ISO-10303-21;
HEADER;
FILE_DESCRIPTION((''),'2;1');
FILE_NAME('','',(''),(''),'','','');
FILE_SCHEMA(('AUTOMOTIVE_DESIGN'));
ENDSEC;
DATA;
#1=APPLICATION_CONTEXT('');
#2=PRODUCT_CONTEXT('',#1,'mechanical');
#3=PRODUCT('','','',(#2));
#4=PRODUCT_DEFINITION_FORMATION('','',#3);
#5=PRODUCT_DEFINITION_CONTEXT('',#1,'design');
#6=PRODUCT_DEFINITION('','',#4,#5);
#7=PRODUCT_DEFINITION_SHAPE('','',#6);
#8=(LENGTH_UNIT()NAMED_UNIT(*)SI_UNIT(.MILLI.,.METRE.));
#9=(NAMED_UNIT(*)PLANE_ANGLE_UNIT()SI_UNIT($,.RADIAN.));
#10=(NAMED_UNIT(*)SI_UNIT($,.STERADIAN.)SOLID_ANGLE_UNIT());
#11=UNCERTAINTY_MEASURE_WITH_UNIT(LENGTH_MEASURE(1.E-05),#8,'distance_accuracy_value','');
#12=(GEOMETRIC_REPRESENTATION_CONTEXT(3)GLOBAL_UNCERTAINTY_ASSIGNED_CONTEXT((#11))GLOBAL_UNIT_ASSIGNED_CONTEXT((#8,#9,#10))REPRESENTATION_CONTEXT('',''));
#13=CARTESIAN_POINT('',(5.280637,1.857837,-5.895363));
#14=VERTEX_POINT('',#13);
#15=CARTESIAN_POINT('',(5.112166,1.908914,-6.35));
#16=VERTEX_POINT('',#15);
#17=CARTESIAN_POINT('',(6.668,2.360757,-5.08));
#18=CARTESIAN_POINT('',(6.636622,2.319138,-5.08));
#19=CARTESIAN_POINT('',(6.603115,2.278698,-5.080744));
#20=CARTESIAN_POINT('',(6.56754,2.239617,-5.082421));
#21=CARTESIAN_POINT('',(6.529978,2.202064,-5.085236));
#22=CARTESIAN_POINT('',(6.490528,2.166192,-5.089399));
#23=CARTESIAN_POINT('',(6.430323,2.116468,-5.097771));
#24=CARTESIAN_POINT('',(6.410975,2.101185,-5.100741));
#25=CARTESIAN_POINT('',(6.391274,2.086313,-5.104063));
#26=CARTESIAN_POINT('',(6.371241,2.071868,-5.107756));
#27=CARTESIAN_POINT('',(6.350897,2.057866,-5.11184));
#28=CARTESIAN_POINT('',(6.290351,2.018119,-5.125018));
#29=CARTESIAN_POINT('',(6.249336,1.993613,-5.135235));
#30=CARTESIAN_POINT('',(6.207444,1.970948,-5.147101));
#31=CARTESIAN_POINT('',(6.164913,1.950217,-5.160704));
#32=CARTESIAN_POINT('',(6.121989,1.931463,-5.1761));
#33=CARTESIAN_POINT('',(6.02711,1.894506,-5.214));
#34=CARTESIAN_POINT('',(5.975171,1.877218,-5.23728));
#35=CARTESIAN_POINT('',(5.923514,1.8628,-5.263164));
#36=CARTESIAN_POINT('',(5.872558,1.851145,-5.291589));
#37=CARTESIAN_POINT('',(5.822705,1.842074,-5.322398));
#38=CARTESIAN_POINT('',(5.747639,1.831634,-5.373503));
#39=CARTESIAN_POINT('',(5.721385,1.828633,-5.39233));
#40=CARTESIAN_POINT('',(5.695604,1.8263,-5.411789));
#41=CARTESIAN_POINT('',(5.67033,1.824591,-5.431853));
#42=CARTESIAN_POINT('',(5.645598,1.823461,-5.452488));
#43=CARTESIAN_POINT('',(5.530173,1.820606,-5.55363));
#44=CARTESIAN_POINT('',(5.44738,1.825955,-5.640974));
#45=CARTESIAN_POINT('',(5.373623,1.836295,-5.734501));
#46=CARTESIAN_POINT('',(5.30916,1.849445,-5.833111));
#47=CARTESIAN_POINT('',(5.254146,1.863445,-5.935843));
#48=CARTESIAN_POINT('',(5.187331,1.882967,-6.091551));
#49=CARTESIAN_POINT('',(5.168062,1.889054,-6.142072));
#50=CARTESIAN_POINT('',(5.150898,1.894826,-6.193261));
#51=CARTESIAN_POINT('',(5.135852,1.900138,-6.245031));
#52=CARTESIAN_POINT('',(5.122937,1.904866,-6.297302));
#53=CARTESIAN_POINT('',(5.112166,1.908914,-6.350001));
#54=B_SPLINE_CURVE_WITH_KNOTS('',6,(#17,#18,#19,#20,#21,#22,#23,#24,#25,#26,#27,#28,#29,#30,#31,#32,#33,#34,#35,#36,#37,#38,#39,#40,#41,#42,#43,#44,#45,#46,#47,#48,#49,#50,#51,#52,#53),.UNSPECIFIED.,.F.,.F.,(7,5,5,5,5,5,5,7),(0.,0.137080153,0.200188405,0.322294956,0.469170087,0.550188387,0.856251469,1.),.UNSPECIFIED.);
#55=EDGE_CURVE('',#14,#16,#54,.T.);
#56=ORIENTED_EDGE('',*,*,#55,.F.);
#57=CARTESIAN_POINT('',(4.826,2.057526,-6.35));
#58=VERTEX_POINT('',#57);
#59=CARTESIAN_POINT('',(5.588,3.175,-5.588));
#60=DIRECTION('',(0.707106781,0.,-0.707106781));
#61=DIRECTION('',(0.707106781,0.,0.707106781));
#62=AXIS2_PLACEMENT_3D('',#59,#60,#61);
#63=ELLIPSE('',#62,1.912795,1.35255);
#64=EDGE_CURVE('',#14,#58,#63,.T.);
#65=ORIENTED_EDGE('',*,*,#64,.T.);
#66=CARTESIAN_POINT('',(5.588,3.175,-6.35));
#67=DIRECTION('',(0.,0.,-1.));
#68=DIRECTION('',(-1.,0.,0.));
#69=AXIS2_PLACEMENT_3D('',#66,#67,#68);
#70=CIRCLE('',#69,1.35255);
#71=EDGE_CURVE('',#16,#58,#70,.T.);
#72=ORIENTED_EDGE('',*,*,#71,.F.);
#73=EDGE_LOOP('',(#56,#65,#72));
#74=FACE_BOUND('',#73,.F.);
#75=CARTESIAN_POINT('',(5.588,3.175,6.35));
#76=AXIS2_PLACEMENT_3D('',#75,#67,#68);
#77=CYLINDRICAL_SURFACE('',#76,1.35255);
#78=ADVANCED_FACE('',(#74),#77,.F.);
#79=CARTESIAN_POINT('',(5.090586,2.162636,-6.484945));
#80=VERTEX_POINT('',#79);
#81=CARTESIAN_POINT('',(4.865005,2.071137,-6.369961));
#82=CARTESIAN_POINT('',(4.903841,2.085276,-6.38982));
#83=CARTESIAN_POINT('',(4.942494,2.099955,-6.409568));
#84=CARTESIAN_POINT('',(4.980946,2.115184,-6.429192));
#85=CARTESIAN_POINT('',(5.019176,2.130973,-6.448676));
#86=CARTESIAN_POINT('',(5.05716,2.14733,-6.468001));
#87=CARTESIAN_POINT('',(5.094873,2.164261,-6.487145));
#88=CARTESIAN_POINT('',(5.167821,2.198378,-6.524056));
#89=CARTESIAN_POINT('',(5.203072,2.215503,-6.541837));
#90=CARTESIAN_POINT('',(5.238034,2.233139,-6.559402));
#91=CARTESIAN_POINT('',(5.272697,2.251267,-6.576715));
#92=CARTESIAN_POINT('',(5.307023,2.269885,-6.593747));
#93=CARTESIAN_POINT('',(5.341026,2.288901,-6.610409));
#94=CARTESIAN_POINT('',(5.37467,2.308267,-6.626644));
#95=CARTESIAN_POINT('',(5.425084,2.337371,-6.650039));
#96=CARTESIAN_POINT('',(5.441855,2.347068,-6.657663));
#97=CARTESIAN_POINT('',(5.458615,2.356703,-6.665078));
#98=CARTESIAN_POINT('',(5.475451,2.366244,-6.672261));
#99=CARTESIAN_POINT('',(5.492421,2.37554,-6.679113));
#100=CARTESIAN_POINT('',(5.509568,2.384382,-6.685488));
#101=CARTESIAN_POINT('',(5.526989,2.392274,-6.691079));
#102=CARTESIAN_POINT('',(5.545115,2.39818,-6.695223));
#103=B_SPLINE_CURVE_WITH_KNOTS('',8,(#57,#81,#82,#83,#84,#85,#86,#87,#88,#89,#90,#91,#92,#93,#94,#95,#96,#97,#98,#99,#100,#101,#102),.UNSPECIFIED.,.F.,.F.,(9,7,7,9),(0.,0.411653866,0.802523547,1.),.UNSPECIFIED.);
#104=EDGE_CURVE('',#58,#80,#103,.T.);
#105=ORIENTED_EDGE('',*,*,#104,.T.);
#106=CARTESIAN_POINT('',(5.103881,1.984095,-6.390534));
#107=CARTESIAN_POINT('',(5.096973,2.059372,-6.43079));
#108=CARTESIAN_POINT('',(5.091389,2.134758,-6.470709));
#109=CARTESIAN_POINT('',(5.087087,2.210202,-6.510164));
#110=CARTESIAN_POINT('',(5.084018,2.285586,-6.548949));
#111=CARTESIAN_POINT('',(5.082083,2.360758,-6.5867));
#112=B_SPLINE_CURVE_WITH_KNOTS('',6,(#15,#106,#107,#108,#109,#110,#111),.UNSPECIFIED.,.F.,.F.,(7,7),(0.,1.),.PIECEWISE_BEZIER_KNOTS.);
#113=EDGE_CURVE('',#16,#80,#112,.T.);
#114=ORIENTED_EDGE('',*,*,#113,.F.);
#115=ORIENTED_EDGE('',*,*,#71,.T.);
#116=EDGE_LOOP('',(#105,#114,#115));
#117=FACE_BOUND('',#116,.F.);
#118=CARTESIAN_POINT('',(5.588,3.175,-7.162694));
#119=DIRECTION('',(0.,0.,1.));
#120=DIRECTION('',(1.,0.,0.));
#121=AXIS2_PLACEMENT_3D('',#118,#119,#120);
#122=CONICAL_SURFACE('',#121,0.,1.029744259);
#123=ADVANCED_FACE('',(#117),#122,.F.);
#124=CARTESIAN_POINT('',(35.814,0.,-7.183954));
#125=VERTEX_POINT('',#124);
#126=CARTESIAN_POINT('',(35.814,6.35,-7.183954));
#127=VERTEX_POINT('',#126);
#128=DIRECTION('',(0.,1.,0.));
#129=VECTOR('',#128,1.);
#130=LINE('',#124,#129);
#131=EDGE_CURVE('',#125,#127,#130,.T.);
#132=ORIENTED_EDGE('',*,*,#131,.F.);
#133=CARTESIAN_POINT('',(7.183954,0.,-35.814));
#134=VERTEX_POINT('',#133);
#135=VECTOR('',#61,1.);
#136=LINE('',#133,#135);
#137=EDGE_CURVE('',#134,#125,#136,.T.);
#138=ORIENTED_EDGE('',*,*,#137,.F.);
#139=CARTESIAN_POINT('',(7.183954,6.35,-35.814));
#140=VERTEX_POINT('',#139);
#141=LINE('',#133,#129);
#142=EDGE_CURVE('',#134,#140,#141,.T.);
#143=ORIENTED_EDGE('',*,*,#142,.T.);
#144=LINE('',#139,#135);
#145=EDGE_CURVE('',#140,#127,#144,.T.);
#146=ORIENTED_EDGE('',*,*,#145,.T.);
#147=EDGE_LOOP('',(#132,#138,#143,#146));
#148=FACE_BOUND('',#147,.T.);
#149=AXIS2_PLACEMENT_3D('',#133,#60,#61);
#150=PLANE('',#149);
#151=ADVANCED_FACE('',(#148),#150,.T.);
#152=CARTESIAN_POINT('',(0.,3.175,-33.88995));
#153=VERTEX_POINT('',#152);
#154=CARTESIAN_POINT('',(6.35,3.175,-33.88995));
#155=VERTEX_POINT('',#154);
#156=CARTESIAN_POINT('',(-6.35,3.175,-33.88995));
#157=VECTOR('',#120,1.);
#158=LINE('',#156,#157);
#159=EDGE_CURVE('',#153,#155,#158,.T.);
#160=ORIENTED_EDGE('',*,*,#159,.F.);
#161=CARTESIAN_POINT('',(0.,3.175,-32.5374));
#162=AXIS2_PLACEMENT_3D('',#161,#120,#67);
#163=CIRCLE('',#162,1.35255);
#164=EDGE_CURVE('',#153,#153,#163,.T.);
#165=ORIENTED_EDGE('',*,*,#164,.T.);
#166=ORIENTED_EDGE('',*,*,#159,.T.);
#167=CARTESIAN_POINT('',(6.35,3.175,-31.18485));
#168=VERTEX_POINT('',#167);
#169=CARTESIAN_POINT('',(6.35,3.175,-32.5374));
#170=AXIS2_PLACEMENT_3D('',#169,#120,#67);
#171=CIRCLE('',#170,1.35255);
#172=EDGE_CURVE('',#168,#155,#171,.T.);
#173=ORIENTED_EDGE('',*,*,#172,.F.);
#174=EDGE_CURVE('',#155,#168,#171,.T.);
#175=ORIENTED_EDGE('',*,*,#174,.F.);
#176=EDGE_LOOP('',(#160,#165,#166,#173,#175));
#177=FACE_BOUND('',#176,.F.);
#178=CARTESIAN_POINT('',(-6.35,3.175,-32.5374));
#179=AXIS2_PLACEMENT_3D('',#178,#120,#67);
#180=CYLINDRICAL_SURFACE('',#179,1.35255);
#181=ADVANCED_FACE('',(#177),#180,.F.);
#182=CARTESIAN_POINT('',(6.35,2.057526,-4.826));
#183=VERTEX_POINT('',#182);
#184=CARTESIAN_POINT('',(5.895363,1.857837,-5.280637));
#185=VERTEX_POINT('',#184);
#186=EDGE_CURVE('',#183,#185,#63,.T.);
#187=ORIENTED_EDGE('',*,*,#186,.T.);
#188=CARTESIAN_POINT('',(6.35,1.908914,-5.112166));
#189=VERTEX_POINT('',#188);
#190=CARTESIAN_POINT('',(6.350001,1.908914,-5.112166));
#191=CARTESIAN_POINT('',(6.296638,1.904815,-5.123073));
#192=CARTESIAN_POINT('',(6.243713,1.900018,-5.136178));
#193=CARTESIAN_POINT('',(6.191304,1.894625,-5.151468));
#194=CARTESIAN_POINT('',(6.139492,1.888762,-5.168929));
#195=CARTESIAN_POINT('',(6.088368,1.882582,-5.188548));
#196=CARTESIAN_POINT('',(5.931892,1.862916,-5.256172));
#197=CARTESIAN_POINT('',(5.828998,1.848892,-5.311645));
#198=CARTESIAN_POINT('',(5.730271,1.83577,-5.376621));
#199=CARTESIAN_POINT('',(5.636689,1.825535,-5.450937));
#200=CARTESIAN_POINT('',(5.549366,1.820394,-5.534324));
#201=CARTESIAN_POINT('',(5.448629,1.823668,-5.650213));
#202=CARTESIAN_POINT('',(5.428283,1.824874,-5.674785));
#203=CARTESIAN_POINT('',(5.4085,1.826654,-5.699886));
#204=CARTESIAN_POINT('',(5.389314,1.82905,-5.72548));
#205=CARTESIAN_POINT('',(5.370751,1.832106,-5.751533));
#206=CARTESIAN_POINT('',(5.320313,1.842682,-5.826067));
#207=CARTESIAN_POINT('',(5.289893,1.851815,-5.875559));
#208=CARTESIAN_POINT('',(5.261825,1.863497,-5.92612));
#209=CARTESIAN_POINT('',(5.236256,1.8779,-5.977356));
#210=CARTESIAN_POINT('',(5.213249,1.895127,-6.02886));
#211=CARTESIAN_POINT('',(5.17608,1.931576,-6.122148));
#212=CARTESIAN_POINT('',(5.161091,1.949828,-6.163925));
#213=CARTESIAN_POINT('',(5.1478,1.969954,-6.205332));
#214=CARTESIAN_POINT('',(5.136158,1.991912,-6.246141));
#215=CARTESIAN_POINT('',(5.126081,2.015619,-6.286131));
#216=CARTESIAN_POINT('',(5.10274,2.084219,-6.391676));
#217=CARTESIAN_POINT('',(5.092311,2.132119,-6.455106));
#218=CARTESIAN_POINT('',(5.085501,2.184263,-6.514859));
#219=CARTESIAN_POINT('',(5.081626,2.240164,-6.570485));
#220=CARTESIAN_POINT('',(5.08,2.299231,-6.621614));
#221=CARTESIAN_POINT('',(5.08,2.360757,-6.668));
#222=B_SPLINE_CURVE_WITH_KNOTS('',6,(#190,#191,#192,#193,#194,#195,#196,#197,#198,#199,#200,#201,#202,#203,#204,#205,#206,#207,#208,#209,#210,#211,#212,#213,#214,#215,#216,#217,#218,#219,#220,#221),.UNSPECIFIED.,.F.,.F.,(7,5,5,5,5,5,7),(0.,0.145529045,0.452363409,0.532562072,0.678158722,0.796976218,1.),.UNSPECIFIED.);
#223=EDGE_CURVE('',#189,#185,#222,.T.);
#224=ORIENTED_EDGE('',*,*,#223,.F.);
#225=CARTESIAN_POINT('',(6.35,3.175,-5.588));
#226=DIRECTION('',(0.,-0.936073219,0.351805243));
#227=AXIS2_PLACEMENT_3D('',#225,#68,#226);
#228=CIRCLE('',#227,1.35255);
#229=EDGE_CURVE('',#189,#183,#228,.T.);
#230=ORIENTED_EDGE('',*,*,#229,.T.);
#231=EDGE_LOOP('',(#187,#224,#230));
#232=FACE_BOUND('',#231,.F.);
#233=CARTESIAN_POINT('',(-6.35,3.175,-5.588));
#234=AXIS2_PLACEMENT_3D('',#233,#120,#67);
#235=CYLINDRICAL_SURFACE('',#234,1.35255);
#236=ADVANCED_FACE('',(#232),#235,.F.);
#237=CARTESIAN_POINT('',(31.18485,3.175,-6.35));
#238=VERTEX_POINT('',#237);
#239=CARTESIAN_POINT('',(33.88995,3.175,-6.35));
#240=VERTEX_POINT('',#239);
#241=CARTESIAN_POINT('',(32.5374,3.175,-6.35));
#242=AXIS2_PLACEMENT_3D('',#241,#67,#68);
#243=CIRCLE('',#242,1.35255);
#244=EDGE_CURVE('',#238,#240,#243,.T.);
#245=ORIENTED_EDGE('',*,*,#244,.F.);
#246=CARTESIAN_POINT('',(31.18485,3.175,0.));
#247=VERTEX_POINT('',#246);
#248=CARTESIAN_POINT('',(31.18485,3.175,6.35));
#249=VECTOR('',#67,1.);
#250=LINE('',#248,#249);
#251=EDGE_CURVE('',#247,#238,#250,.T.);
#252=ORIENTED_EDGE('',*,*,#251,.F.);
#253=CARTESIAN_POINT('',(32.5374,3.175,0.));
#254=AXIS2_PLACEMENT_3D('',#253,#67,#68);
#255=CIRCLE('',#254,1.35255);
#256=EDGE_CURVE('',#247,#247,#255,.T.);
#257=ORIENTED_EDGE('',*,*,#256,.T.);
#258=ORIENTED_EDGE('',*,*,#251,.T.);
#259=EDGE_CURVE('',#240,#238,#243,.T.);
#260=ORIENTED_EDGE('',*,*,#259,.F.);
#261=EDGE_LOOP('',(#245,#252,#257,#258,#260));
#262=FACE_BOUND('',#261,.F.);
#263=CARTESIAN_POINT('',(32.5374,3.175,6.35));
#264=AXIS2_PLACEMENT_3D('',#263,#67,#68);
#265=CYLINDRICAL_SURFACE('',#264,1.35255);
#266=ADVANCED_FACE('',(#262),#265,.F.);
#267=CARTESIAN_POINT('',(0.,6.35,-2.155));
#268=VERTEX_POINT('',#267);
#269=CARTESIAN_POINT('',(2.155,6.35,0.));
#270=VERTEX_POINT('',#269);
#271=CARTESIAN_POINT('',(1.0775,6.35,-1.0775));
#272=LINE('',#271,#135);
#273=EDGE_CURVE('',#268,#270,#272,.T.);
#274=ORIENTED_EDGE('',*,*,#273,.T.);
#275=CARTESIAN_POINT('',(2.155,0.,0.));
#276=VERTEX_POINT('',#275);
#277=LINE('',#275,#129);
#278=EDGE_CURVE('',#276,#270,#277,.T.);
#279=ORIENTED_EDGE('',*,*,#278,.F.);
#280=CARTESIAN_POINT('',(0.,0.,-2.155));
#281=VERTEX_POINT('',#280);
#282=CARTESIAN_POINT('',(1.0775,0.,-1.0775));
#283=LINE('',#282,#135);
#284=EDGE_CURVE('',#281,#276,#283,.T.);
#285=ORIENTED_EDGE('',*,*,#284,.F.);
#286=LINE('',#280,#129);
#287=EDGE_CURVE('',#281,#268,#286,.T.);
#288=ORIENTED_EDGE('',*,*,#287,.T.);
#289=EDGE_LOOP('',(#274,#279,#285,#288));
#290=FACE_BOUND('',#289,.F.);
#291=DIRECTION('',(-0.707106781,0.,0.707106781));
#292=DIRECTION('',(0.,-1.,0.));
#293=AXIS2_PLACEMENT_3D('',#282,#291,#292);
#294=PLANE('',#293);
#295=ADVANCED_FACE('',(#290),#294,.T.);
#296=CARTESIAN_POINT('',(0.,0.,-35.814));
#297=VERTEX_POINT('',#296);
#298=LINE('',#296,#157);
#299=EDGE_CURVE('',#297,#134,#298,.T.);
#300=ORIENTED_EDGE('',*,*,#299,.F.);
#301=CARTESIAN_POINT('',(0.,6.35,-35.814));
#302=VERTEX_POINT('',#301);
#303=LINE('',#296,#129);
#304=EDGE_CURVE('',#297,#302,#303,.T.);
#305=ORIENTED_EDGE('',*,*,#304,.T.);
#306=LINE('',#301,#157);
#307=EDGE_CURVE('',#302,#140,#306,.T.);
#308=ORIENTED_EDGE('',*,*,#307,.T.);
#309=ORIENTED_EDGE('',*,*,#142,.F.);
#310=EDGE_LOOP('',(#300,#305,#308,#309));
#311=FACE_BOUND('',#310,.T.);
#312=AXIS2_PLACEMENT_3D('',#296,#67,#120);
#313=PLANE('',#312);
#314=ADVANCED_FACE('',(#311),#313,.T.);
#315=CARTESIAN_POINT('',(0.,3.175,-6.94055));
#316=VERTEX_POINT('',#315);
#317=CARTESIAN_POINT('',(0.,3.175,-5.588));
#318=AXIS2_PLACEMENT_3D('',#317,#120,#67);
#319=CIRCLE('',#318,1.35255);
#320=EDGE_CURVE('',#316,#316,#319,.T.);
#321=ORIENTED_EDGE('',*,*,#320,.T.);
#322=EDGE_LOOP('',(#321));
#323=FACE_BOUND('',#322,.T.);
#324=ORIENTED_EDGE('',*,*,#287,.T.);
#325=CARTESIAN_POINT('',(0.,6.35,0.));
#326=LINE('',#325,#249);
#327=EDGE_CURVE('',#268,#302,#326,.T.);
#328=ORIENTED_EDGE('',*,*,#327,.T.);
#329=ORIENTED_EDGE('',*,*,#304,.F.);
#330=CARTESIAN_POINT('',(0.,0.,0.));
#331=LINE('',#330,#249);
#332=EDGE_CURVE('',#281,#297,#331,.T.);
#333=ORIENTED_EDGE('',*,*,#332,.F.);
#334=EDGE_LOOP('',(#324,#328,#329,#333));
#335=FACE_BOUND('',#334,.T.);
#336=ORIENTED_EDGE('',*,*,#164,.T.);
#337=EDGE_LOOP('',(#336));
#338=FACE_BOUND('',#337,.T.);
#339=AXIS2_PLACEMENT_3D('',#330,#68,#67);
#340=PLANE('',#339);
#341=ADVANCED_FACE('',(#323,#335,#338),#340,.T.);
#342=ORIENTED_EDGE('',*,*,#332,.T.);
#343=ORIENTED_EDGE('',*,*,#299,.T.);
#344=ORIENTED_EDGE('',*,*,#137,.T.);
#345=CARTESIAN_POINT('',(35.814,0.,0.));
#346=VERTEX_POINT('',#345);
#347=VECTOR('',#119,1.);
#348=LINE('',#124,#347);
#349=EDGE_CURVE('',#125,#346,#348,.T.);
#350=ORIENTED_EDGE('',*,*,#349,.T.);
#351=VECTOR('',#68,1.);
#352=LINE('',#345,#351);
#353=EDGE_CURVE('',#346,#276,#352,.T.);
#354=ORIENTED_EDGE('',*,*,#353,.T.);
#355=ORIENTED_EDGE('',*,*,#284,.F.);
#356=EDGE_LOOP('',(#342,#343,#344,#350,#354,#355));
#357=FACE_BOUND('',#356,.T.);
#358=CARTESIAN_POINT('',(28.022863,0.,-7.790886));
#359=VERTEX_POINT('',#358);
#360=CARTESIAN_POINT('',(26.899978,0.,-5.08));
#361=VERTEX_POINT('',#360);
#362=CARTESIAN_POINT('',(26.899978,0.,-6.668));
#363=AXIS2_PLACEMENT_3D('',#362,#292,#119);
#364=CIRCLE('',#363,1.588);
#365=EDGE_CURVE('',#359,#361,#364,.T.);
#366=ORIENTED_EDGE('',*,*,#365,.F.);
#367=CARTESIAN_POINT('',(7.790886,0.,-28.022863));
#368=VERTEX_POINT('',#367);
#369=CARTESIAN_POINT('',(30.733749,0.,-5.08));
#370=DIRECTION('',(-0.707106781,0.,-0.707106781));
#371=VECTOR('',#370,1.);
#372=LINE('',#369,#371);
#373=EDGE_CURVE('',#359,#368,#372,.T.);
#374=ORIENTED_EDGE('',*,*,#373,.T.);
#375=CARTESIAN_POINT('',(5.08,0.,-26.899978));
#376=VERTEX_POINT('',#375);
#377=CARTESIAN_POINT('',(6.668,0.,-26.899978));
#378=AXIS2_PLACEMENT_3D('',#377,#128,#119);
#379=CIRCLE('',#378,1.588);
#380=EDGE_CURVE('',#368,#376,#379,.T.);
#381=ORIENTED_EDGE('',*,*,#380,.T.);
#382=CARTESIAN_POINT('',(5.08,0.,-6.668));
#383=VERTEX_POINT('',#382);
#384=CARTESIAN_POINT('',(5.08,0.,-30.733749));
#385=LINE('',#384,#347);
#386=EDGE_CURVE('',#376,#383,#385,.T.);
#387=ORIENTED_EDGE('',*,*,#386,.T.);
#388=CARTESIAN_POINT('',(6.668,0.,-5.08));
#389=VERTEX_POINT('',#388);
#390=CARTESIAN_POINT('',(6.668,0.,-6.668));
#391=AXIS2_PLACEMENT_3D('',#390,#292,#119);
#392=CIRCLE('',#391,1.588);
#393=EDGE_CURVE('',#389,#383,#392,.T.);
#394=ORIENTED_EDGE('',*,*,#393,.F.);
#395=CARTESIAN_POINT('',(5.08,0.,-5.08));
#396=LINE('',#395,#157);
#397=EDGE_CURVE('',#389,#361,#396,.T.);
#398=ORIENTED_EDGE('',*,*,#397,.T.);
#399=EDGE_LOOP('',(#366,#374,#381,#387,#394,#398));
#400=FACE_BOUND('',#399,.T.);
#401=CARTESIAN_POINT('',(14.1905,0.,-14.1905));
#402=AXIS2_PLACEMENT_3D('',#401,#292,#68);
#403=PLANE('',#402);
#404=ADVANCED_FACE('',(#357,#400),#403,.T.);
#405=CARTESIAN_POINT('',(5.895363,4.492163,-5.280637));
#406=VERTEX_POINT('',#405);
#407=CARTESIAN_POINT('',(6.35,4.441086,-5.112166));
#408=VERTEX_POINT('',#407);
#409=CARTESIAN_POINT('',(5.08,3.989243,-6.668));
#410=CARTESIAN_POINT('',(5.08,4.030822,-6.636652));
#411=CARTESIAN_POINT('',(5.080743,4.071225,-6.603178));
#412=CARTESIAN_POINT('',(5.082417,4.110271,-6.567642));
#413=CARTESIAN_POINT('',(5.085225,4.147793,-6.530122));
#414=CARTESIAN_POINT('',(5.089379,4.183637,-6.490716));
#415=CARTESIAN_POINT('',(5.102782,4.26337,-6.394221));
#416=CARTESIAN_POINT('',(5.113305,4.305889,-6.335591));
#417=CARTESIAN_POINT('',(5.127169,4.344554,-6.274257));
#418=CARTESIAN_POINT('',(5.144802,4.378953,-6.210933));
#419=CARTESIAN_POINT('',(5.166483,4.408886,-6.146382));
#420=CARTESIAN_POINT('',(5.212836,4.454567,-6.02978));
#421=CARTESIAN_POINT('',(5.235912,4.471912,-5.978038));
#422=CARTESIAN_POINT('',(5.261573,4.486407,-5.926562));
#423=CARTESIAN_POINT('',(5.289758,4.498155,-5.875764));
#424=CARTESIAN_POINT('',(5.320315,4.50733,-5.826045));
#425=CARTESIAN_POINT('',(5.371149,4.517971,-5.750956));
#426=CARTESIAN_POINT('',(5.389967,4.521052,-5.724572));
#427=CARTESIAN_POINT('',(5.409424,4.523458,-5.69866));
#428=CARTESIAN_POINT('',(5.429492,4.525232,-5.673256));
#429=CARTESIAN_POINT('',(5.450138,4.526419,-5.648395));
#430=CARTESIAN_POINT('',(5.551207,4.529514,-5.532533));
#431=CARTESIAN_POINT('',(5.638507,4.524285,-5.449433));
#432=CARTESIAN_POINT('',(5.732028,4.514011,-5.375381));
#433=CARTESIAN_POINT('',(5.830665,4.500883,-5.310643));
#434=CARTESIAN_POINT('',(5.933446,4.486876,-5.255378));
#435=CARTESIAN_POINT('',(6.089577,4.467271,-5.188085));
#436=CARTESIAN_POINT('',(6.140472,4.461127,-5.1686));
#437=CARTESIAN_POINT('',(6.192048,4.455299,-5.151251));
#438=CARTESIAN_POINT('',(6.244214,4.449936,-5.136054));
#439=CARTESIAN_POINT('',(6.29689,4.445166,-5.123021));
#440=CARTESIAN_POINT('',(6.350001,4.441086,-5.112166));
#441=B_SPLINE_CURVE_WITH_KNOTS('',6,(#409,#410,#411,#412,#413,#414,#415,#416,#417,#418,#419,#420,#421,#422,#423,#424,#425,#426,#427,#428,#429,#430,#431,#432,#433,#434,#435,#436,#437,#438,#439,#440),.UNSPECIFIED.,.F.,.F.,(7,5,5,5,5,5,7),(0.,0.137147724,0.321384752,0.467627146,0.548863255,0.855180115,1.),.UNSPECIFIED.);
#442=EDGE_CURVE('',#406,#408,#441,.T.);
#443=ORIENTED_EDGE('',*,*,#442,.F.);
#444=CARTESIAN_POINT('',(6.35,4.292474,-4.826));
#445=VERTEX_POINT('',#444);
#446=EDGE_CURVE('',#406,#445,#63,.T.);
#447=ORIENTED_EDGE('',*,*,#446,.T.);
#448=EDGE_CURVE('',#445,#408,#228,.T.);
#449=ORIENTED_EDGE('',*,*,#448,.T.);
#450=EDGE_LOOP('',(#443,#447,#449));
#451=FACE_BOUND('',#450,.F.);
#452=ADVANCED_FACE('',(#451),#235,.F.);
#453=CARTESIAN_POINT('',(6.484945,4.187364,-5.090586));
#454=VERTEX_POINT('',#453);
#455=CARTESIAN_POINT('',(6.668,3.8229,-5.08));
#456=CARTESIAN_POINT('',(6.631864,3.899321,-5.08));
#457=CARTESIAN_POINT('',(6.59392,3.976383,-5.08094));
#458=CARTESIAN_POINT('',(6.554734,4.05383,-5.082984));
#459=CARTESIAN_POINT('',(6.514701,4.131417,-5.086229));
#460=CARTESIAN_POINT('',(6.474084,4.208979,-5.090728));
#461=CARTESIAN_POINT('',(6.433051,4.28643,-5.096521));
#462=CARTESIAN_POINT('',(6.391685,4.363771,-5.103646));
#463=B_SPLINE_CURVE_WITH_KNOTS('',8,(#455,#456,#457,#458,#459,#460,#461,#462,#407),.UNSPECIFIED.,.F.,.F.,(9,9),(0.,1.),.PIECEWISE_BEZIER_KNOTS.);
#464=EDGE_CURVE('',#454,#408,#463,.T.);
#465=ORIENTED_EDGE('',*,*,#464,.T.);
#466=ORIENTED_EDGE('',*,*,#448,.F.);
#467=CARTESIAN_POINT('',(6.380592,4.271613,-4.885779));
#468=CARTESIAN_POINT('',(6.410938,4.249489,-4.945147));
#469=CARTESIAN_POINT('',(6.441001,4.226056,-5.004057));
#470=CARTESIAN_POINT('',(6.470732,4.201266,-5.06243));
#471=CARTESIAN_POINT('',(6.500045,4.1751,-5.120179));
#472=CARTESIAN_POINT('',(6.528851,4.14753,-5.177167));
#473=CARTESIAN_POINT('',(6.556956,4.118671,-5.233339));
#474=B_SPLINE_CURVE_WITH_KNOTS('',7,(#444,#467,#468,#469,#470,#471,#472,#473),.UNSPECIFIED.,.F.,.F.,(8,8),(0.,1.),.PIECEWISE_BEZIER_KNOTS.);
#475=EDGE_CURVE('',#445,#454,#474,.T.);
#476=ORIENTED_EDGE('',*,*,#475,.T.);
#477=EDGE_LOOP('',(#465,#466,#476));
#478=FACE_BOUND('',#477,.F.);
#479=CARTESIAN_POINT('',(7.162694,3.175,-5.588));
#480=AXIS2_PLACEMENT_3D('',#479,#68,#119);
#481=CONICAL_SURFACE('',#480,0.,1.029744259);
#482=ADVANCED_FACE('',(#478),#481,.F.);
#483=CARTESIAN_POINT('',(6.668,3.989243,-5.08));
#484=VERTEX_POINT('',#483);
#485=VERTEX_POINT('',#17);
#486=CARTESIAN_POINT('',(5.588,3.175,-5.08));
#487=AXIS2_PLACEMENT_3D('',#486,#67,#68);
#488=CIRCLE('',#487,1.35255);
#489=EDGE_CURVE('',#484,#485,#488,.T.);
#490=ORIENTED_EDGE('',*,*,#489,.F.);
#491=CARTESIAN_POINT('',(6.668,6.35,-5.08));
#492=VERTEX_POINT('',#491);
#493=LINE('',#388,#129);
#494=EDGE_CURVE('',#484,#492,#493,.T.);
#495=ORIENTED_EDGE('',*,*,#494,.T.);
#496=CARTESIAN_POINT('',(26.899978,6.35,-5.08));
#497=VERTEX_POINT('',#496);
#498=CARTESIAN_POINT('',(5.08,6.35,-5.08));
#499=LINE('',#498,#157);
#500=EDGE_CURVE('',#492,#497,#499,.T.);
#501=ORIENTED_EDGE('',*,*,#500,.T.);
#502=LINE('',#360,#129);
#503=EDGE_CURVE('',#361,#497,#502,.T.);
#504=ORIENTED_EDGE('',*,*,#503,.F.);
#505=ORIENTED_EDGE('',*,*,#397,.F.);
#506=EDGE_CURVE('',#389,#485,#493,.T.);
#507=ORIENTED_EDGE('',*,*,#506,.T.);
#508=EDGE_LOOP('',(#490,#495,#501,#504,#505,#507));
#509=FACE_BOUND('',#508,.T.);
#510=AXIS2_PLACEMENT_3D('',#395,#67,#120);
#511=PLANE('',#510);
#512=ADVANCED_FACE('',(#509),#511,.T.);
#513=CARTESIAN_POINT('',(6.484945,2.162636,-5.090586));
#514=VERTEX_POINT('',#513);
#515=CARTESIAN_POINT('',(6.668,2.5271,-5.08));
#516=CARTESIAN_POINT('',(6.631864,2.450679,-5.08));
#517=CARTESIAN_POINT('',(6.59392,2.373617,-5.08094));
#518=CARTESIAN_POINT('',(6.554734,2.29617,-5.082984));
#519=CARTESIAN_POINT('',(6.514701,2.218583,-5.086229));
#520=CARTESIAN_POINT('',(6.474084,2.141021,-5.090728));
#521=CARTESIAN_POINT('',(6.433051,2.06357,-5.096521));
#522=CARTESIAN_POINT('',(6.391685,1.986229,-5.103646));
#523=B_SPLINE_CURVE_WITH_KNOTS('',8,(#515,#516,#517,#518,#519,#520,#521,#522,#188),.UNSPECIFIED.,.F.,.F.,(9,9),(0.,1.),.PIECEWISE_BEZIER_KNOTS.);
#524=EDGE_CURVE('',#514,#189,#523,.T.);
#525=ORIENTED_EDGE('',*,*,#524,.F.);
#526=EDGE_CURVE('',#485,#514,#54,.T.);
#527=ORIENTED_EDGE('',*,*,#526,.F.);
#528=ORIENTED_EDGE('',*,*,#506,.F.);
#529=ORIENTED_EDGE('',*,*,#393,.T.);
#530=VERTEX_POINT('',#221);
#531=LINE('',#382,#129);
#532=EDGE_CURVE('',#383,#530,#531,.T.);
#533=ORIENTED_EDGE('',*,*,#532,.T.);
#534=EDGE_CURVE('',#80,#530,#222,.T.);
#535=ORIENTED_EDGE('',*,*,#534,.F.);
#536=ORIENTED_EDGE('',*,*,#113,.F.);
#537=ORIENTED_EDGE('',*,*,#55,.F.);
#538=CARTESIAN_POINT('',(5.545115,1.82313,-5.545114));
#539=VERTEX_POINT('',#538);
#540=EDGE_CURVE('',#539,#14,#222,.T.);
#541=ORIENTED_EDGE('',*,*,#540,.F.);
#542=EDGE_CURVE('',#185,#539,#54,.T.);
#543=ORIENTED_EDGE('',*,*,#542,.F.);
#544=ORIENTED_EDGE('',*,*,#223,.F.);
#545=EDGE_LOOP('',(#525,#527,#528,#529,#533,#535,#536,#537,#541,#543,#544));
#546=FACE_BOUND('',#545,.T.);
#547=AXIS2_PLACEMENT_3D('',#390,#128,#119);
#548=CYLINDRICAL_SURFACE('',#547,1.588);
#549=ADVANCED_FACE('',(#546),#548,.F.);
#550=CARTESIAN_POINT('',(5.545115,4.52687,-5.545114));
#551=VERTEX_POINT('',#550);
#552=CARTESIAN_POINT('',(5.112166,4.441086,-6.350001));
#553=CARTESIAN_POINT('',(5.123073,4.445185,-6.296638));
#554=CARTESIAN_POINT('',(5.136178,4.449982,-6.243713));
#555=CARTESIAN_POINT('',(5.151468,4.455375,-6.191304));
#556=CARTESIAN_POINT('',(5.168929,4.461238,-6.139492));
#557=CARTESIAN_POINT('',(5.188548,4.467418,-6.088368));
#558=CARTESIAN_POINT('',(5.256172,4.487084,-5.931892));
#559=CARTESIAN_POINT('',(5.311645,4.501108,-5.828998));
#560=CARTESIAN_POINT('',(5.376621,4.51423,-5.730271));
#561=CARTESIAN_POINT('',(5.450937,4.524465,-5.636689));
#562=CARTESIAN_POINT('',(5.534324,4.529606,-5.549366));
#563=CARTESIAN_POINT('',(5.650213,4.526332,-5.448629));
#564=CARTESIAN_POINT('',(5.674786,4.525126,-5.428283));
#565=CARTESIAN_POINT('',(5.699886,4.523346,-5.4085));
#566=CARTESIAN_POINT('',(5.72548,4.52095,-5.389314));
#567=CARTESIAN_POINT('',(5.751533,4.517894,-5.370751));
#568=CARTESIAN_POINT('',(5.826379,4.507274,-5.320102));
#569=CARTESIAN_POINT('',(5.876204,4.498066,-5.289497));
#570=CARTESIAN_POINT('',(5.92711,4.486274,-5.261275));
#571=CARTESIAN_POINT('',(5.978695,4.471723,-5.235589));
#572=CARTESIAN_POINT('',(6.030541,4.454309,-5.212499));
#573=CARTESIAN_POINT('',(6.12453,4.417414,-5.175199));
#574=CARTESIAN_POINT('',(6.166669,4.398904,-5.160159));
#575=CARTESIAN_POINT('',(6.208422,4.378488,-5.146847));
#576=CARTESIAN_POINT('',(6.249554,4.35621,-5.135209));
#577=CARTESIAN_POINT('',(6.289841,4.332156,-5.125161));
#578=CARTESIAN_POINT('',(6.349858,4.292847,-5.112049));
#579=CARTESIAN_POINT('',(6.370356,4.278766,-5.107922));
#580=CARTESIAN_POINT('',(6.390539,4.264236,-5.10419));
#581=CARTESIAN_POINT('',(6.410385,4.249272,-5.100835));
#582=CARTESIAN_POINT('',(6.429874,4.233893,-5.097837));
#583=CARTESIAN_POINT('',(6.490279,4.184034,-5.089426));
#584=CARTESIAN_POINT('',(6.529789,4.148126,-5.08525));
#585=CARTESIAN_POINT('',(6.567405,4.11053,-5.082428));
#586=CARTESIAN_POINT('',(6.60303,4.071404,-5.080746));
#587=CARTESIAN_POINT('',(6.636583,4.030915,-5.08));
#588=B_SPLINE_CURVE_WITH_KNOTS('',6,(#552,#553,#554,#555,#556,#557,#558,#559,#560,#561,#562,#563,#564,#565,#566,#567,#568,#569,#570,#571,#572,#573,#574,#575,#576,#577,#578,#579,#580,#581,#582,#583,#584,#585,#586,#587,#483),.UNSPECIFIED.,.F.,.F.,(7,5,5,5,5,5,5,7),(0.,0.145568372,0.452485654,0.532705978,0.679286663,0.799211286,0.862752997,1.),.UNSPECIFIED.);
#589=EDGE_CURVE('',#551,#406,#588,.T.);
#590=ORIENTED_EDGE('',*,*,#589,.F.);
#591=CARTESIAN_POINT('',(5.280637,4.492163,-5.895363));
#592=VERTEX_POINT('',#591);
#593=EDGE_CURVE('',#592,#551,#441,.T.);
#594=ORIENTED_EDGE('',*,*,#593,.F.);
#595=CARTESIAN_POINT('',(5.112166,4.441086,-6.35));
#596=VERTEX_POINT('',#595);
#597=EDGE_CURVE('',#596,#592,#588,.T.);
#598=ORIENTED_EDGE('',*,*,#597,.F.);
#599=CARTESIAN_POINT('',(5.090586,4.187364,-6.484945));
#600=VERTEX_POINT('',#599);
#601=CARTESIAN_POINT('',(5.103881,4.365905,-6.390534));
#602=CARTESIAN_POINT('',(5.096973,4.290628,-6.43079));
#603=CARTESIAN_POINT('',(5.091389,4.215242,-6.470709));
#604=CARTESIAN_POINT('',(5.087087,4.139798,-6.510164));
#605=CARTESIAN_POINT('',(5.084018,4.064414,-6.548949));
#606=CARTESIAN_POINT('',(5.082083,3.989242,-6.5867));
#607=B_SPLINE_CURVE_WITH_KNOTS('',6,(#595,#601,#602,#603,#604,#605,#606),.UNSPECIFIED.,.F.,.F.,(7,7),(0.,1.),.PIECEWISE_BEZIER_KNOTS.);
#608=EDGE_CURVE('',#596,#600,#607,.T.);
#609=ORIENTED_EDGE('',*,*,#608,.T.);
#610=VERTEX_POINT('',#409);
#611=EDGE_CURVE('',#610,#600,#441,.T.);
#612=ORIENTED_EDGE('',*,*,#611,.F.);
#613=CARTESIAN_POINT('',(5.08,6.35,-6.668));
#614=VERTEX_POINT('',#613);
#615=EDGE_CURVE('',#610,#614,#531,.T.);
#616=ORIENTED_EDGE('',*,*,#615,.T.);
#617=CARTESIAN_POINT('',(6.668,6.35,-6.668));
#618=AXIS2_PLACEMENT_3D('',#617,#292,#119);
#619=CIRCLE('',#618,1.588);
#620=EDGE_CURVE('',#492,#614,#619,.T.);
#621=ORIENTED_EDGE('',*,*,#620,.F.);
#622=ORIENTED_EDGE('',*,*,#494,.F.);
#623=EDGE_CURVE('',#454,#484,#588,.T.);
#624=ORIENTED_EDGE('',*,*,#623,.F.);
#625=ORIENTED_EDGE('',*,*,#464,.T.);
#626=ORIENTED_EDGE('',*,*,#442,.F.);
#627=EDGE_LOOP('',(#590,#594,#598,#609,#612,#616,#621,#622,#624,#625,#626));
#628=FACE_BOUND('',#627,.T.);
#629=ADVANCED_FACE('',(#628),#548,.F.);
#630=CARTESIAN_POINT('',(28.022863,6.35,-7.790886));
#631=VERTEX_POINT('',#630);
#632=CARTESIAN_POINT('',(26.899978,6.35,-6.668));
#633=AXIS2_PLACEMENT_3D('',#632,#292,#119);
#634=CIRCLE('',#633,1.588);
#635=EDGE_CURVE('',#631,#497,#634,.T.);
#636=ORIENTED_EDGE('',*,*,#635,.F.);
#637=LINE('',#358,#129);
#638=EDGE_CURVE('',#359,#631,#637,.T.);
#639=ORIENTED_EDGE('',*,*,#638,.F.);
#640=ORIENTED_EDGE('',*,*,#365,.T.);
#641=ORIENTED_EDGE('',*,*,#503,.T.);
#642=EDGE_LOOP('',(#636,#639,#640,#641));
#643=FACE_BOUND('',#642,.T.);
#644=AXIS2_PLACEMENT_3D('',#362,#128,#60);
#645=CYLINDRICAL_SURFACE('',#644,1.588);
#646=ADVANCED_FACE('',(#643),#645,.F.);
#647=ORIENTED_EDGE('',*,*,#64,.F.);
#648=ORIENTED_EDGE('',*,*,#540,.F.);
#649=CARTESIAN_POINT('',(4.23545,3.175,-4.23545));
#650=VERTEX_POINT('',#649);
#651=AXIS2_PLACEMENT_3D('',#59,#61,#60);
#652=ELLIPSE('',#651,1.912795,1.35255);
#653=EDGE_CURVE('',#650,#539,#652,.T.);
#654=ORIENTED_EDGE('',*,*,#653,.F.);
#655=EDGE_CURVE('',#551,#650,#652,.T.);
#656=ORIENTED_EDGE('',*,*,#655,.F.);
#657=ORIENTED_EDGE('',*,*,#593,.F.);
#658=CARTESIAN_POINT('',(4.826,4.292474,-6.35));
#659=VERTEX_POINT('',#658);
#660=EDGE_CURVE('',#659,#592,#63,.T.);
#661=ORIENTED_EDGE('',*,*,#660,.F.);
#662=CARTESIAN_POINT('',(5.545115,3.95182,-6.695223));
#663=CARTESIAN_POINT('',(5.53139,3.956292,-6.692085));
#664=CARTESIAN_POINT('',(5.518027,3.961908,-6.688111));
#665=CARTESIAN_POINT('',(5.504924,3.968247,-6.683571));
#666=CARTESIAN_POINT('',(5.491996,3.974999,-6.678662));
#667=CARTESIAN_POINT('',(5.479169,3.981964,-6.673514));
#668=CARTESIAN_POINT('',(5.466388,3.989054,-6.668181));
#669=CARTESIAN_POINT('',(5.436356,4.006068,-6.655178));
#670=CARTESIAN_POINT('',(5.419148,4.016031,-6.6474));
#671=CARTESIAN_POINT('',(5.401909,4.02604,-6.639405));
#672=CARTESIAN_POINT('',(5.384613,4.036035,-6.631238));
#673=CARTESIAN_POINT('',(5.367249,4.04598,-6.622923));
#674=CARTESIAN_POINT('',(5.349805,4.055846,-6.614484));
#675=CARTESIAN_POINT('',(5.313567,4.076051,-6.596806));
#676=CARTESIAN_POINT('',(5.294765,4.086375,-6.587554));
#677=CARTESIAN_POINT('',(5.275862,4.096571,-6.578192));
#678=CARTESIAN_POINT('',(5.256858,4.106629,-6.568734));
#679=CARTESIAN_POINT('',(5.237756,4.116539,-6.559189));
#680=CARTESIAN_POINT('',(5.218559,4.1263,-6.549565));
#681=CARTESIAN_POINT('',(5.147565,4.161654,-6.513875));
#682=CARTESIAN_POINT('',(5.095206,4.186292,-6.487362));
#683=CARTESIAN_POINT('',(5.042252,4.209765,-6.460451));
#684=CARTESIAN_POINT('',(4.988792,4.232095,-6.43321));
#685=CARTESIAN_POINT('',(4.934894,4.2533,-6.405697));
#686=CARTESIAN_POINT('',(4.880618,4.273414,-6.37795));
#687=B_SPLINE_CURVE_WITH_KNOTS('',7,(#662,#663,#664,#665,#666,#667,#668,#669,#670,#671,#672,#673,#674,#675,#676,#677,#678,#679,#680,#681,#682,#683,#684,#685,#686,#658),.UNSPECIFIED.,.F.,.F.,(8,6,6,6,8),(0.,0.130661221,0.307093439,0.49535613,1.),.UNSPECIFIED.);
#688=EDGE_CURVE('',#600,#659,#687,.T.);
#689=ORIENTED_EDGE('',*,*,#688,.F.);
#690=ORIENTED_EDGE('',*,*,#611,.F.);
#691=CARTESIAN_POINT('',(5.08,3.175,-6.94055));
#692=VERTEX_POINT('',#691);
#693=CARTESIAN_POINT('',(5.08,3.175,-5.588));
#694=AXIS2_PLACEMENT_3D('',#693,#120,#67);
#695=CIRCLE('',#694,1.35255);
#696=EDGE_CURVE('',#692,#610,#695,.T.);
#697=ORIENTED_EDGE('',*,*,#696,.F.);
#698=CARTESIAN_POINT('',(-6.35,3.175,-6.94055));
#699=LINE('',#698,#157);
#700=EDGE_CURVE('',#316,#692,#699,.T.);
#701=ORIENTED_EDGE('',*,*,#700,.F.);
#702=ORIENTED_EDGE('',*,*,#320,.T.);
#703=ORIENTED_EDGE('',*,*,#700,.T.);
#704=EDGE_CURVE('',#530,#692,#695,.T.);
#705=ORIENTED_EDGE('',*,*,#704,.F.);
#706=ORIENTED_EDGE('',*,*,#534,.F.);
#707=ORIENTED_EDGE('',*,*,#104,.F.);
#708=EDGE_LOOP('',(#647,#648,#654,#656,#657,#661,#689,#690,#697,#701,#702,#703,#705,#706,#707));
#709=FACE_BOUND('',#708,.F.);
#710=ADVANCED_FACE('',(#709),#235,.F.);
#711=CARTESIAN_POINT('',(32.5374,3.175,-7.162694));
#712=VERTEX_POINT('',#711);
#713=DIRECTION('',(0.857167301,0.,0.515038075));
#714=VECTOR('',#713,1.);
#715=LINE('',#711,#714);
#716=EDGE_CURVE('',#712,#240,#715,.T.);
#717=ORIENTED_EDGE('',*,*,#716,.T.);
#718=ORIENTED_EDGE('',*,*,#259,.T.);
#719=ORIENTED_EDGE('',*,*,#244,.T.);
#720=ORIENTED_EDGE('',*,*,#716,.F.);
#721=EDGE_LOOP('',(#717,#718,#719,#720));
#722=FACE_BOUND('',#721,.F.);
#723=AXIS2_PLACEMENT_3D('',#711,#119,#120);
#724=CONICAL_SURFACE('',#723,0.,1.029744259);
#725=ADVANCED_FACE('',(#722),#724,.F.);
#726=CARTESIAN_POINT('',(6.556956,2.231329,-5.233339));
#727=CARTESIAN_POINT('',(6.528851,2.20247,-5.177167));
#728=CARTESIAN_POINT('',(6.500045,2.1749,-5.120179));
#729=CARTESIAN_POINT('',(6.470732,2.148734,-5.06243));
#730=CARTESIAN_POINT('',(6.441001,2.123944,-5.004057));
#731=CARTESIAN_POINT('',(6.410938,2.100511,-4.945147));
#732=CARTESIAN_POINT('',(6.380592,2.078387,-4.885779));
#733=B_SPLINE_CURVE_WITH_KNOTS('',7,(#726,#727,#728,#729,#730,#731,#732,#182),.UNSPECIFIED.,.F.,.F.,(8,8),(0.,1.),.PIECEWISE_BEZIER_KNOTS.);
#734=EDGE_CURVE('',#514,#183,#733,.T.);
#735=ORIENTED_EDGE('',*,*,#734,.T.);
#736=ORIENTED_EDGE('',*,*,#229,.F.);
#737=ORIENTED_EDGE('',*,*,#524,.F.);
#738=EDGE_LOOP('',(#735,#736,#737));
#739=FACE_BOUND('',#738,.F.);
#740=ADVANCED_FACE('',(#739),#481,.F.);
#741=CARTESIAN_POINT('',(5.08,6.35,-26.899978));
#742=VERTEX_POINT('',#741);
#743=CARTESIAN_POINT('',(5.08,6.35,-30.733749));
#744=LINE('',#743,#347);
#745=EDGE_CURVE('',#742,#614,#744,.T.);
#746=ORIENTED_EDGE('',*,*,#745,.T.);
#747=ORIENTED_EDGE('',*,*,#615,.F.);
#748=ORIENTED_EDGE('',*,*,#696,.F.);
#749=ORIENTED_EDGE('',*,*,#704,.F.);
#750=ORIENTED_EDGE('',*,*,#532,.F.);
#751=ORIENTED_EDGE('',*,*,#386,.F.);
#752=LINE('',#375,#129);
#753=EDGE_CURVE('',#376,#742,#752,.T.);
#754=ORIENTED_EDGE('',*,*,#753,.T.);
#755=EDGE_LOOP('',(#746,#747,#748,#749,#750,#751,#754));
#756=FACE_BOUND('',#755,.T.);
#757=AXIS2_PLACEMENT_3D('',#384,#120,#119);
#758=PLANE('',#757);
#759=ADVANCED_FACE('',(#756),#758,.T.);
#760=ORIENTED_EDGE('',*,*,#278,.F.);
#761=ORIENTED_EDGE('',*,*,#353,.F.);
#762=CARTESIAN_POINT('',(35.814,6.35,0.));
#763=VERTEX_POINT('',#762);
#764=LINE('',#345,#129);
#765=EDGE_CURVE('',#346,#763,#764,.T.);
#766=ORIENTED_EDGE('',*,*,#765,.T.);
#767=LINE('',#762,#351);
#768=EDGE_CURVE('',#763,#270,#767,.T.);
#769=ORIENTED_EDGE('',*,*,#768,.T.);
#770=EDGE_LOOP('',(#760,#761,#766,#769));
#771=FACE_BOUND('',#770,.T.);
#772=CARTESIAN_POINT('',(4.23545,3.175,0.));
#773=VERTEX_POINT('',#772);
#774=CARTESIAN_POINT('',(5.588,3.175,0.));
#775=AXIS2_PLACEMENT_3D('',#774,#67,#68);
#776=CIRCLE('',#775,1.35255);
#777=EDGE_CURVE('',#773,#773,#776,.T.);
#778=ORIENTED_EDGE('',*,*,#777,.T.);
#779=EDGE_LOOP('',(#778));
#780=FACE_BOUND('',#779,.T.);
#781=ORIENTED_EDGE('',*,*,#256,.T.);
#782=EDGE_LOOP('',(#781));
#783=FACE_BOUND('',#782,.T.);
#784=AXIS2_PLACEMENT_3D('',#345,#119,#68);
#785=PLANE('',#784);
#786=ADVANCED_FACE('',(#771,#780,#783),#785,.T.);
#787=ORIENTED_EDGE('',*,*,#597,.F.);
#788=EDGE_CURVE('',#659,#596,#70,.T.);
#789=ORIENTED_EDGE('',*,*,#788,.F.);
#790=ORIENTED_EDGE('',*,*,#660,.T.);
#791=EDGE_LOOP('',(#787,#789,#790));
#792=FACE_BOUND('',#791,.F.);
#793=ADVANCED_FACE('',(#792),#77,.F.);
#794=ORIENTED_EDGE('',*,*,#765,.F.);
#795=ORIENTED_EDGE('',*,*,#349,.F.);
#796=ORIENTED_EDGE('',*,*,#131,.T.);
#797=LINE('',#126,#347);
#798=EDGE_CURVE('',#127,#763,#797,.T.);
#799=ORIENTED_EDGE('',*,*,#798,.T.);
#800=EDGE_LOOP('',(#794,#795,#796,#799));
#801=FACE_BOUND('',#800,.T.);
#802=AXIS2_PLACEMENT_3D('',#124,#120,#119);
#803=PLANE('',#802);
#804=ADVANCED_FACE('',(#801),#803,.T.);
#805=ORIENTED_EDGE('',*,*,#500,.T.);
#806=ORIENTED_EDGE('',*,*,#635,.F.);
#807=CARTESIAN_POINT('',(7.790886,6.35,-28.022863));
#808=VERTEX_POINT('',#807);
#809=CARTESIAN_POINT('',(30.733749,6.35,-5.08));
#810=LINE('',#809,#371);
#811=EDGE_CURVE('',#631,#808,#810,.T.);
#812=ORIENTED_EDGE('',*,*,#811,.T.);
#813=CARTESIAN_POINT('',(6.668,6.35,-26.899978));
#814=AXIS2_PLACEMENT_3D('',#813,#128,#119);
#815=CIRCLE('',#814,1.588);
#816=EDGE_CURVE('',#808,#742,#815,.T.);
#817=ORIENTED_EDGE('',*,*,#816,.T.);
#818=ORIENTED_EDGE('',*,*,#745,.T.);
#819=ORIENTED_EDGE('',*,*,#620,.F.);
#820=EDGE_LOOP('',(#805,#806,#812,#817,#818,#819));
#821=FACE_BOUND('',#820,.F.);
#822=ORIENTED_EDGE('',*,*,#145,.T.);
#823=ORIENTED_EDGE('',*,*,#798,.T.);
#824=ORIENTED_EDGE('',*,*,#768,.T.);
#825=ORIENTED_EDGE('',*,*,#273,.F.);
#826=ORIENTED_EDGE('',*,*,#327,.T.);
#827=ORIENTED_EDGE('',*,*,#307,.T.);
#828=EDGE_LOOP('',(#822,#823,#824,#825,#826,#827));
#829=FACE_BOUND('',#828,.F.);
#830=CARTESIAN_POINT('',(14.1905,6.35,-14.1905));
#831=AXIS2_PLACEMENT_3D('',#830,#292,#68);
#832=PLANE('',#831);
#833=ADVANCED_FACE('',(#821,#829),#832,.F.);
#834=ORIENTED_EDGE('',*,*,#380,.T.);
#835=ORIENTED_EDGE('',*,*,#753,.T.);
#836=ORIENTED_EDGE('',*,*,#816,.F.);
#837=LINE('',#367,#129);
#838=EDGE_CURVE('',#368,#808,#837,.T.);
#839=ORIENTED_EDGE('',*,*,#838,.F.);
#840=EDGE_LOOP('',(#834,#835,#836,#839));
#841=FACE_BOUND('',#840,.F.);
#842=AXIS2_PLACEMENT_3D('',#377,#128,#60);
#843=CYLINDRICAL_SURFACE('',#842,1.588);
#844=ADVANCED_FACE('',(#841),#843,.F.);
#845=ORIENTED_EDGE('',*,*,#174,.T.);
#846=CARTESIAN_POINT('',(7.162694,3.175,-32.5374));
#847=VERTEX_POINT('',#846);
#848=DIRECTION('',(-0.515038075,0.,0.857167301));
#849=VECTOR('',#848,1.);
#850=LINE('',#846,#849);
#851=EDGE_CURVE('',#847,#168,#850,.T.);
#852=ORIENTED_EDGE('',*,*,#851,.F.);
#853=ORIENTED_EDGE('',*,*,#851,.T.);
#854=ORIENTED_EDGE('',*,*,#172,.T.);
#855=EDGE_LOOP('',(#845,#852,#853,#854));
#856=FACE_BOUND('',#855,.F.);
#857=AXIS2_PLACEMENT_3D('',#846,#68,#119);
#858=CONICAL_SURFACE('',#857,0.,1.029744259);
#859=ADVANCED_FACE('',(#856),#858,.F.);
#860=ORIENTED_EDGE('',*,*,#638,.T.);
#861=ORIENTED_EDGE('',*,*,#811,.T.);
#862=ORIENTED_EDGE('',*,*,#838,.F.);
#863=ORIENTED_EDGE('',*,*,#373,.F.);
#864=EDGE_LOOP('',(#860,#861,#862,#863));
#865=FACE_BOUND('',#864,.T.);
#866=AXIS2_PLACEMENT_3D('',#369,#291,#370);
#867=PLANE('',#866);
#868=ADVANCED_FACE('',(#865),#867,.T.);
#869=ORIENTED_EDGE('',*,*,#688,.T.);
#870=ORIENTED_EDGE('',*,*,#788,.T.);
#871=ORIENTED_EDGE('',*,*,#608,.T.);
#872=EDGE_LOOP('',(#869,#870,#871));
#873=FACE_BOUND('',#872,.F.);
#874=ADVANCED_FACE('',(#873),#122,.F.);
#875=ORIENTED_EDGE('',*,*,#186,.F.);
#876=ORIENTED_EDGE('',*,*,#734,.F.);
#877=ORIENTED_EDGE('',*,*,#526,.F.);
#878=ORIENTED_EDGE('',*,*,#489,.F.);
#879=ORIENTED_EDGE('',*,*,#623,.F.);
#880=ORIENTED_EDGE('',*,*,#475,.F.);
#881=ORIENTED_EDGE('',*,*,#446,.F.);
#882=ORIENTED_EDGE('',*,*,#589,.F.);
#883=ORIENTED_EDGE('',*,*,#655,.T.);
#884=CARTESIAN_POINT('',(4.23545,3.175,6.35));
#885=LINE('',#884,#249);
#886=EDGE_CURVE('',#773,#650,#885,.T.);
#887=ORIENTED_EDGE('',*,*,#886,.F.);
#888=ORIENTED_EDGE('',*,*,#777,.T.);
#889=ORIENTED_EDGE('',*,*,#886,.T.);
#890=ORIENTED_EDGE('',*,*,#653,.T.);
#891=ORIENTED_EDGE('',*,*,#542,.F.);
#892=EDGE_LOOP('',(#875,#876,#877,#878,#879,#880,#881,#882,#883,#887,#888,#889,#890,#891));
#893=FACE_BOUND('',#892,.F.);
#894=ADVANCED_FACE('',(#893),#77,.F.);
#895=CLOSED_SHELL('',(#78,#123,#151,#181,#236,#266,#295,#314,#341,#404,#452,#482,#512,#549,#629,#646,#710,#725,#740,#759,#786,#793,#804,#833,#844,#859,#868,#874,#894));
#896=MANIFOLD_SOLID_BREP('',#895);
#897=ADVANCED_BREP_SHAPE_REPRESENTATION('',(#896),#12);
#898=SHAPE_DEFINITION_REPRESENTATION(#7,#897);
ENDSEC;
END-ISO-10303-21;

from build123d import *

# Parameters (mm, degrees)
BOSS_EXTRUDE1_DEPTH           = 6.35
FILLET1_R                     = 1.588
TAP_DRILL_FOR_6_32_TAP2_D     = 2.7051
TAP_DRILL_FOR_6_32_TAP2_DEPTH = 6.35
TAP_DRILL_FOR_6_32_TAP2_TIP   = 0.81269403
TAP_DRILL_FOR_6_32_TAP1_D     = 2.7051
TAP_DRILL_FOR_6_32_TAP1_DEPTH = 6.35
TAP_DRILL_FOR_6_32_TAP1_TIP   = 0.81269403
CHAMFER1_SIZE                 = 2.155


with BuildPart() as part:
    # Sketch1 → Boss-Extrude1 (new body)
    with BuildSketch(Plane(origin=(0, 0, 0), x_dir=(1, 0, 0), z_dir=(0, 1, 0))):
        Polygon((0, 0), (0, 35.814), (7.183953537, 35.814), (35.814, 7.183953537), (35.814, 0), align=None)
        Polygon((5.08, 30.73374864), (5.08, 5.08), (30.73374864, 5.08), align=None, mode=Mode.SUBTRACT)
    extrude(amount=BOSS_EXTRUDE1_DEPTH)

    # Fillet1
    fillet1_edges = [part.edges().sort_by_distance(p)[0] for p in [
        (30.73374864, 3.175, -5.08),
        (5.08, 3.175, -30.73374864),
        (5.08, 3.175, -5.08),
    ]]
    fillet(fillet1_edges, radius=FILLET1_R)

    # Tap Drill for #6-32 Tap2
    with Locations(Plane.ZY):
        with Locations((-5.588, 3.175), (-32.5374, 3.175)):
            Hole(TAP_DRILL_FOR_6_32_TAP2_D / 2, depth=TAP_DRILL_FOR_6_32_TAP2_DEPTH)
            with Locations((0, 0, -(TAP_DRILL_FOR_6_32_TAP2_DEPTH + TAP_DRILL_FOR_6_32_TAP2_TIP / 2))):  # 118° drill point
                Cone(0, TAP_DRILL_FOR_6_32_TAP2_D / 2, TAP_DRILL_FOR_6_32_TAP2_TIP, mode=Mode.SUBTRACT)

    # Tap Drill for #6-32 Tap1
    with Locations(Plane.XY):
        with Locations((32.5374, 3.175), (5.588, 3.175)):
            Hole(TAP_DRILL_FOR_6_32_TAP1_D / 2, depth=TAP_DRILL_FOR_6_32_TAP1_DEPTH)
            with Locations((0, 0, -(TAP_DRILL_FOR_6_32_TAP1_DEPTH + TAP_DRILL_FOR_6_32_TAP1_TIP / 2))):  # 118° drill point
                Cone(0, TAP_DRILL_FOR_6_32_TAP1_D / 2, TAP_DRILL_FOR_6_32_TAP1_TIP, mode=Mode.SUBTRACT)

    # Chamfer1
    chamfer1_edges = [part.edges().sort_by_distance(p)[0] for p in [
        (0, 3.175, 0),
    ]]
    chamfer(chamfer1_edges, length=CHAMFER1_SIZE)


solid = part.part
